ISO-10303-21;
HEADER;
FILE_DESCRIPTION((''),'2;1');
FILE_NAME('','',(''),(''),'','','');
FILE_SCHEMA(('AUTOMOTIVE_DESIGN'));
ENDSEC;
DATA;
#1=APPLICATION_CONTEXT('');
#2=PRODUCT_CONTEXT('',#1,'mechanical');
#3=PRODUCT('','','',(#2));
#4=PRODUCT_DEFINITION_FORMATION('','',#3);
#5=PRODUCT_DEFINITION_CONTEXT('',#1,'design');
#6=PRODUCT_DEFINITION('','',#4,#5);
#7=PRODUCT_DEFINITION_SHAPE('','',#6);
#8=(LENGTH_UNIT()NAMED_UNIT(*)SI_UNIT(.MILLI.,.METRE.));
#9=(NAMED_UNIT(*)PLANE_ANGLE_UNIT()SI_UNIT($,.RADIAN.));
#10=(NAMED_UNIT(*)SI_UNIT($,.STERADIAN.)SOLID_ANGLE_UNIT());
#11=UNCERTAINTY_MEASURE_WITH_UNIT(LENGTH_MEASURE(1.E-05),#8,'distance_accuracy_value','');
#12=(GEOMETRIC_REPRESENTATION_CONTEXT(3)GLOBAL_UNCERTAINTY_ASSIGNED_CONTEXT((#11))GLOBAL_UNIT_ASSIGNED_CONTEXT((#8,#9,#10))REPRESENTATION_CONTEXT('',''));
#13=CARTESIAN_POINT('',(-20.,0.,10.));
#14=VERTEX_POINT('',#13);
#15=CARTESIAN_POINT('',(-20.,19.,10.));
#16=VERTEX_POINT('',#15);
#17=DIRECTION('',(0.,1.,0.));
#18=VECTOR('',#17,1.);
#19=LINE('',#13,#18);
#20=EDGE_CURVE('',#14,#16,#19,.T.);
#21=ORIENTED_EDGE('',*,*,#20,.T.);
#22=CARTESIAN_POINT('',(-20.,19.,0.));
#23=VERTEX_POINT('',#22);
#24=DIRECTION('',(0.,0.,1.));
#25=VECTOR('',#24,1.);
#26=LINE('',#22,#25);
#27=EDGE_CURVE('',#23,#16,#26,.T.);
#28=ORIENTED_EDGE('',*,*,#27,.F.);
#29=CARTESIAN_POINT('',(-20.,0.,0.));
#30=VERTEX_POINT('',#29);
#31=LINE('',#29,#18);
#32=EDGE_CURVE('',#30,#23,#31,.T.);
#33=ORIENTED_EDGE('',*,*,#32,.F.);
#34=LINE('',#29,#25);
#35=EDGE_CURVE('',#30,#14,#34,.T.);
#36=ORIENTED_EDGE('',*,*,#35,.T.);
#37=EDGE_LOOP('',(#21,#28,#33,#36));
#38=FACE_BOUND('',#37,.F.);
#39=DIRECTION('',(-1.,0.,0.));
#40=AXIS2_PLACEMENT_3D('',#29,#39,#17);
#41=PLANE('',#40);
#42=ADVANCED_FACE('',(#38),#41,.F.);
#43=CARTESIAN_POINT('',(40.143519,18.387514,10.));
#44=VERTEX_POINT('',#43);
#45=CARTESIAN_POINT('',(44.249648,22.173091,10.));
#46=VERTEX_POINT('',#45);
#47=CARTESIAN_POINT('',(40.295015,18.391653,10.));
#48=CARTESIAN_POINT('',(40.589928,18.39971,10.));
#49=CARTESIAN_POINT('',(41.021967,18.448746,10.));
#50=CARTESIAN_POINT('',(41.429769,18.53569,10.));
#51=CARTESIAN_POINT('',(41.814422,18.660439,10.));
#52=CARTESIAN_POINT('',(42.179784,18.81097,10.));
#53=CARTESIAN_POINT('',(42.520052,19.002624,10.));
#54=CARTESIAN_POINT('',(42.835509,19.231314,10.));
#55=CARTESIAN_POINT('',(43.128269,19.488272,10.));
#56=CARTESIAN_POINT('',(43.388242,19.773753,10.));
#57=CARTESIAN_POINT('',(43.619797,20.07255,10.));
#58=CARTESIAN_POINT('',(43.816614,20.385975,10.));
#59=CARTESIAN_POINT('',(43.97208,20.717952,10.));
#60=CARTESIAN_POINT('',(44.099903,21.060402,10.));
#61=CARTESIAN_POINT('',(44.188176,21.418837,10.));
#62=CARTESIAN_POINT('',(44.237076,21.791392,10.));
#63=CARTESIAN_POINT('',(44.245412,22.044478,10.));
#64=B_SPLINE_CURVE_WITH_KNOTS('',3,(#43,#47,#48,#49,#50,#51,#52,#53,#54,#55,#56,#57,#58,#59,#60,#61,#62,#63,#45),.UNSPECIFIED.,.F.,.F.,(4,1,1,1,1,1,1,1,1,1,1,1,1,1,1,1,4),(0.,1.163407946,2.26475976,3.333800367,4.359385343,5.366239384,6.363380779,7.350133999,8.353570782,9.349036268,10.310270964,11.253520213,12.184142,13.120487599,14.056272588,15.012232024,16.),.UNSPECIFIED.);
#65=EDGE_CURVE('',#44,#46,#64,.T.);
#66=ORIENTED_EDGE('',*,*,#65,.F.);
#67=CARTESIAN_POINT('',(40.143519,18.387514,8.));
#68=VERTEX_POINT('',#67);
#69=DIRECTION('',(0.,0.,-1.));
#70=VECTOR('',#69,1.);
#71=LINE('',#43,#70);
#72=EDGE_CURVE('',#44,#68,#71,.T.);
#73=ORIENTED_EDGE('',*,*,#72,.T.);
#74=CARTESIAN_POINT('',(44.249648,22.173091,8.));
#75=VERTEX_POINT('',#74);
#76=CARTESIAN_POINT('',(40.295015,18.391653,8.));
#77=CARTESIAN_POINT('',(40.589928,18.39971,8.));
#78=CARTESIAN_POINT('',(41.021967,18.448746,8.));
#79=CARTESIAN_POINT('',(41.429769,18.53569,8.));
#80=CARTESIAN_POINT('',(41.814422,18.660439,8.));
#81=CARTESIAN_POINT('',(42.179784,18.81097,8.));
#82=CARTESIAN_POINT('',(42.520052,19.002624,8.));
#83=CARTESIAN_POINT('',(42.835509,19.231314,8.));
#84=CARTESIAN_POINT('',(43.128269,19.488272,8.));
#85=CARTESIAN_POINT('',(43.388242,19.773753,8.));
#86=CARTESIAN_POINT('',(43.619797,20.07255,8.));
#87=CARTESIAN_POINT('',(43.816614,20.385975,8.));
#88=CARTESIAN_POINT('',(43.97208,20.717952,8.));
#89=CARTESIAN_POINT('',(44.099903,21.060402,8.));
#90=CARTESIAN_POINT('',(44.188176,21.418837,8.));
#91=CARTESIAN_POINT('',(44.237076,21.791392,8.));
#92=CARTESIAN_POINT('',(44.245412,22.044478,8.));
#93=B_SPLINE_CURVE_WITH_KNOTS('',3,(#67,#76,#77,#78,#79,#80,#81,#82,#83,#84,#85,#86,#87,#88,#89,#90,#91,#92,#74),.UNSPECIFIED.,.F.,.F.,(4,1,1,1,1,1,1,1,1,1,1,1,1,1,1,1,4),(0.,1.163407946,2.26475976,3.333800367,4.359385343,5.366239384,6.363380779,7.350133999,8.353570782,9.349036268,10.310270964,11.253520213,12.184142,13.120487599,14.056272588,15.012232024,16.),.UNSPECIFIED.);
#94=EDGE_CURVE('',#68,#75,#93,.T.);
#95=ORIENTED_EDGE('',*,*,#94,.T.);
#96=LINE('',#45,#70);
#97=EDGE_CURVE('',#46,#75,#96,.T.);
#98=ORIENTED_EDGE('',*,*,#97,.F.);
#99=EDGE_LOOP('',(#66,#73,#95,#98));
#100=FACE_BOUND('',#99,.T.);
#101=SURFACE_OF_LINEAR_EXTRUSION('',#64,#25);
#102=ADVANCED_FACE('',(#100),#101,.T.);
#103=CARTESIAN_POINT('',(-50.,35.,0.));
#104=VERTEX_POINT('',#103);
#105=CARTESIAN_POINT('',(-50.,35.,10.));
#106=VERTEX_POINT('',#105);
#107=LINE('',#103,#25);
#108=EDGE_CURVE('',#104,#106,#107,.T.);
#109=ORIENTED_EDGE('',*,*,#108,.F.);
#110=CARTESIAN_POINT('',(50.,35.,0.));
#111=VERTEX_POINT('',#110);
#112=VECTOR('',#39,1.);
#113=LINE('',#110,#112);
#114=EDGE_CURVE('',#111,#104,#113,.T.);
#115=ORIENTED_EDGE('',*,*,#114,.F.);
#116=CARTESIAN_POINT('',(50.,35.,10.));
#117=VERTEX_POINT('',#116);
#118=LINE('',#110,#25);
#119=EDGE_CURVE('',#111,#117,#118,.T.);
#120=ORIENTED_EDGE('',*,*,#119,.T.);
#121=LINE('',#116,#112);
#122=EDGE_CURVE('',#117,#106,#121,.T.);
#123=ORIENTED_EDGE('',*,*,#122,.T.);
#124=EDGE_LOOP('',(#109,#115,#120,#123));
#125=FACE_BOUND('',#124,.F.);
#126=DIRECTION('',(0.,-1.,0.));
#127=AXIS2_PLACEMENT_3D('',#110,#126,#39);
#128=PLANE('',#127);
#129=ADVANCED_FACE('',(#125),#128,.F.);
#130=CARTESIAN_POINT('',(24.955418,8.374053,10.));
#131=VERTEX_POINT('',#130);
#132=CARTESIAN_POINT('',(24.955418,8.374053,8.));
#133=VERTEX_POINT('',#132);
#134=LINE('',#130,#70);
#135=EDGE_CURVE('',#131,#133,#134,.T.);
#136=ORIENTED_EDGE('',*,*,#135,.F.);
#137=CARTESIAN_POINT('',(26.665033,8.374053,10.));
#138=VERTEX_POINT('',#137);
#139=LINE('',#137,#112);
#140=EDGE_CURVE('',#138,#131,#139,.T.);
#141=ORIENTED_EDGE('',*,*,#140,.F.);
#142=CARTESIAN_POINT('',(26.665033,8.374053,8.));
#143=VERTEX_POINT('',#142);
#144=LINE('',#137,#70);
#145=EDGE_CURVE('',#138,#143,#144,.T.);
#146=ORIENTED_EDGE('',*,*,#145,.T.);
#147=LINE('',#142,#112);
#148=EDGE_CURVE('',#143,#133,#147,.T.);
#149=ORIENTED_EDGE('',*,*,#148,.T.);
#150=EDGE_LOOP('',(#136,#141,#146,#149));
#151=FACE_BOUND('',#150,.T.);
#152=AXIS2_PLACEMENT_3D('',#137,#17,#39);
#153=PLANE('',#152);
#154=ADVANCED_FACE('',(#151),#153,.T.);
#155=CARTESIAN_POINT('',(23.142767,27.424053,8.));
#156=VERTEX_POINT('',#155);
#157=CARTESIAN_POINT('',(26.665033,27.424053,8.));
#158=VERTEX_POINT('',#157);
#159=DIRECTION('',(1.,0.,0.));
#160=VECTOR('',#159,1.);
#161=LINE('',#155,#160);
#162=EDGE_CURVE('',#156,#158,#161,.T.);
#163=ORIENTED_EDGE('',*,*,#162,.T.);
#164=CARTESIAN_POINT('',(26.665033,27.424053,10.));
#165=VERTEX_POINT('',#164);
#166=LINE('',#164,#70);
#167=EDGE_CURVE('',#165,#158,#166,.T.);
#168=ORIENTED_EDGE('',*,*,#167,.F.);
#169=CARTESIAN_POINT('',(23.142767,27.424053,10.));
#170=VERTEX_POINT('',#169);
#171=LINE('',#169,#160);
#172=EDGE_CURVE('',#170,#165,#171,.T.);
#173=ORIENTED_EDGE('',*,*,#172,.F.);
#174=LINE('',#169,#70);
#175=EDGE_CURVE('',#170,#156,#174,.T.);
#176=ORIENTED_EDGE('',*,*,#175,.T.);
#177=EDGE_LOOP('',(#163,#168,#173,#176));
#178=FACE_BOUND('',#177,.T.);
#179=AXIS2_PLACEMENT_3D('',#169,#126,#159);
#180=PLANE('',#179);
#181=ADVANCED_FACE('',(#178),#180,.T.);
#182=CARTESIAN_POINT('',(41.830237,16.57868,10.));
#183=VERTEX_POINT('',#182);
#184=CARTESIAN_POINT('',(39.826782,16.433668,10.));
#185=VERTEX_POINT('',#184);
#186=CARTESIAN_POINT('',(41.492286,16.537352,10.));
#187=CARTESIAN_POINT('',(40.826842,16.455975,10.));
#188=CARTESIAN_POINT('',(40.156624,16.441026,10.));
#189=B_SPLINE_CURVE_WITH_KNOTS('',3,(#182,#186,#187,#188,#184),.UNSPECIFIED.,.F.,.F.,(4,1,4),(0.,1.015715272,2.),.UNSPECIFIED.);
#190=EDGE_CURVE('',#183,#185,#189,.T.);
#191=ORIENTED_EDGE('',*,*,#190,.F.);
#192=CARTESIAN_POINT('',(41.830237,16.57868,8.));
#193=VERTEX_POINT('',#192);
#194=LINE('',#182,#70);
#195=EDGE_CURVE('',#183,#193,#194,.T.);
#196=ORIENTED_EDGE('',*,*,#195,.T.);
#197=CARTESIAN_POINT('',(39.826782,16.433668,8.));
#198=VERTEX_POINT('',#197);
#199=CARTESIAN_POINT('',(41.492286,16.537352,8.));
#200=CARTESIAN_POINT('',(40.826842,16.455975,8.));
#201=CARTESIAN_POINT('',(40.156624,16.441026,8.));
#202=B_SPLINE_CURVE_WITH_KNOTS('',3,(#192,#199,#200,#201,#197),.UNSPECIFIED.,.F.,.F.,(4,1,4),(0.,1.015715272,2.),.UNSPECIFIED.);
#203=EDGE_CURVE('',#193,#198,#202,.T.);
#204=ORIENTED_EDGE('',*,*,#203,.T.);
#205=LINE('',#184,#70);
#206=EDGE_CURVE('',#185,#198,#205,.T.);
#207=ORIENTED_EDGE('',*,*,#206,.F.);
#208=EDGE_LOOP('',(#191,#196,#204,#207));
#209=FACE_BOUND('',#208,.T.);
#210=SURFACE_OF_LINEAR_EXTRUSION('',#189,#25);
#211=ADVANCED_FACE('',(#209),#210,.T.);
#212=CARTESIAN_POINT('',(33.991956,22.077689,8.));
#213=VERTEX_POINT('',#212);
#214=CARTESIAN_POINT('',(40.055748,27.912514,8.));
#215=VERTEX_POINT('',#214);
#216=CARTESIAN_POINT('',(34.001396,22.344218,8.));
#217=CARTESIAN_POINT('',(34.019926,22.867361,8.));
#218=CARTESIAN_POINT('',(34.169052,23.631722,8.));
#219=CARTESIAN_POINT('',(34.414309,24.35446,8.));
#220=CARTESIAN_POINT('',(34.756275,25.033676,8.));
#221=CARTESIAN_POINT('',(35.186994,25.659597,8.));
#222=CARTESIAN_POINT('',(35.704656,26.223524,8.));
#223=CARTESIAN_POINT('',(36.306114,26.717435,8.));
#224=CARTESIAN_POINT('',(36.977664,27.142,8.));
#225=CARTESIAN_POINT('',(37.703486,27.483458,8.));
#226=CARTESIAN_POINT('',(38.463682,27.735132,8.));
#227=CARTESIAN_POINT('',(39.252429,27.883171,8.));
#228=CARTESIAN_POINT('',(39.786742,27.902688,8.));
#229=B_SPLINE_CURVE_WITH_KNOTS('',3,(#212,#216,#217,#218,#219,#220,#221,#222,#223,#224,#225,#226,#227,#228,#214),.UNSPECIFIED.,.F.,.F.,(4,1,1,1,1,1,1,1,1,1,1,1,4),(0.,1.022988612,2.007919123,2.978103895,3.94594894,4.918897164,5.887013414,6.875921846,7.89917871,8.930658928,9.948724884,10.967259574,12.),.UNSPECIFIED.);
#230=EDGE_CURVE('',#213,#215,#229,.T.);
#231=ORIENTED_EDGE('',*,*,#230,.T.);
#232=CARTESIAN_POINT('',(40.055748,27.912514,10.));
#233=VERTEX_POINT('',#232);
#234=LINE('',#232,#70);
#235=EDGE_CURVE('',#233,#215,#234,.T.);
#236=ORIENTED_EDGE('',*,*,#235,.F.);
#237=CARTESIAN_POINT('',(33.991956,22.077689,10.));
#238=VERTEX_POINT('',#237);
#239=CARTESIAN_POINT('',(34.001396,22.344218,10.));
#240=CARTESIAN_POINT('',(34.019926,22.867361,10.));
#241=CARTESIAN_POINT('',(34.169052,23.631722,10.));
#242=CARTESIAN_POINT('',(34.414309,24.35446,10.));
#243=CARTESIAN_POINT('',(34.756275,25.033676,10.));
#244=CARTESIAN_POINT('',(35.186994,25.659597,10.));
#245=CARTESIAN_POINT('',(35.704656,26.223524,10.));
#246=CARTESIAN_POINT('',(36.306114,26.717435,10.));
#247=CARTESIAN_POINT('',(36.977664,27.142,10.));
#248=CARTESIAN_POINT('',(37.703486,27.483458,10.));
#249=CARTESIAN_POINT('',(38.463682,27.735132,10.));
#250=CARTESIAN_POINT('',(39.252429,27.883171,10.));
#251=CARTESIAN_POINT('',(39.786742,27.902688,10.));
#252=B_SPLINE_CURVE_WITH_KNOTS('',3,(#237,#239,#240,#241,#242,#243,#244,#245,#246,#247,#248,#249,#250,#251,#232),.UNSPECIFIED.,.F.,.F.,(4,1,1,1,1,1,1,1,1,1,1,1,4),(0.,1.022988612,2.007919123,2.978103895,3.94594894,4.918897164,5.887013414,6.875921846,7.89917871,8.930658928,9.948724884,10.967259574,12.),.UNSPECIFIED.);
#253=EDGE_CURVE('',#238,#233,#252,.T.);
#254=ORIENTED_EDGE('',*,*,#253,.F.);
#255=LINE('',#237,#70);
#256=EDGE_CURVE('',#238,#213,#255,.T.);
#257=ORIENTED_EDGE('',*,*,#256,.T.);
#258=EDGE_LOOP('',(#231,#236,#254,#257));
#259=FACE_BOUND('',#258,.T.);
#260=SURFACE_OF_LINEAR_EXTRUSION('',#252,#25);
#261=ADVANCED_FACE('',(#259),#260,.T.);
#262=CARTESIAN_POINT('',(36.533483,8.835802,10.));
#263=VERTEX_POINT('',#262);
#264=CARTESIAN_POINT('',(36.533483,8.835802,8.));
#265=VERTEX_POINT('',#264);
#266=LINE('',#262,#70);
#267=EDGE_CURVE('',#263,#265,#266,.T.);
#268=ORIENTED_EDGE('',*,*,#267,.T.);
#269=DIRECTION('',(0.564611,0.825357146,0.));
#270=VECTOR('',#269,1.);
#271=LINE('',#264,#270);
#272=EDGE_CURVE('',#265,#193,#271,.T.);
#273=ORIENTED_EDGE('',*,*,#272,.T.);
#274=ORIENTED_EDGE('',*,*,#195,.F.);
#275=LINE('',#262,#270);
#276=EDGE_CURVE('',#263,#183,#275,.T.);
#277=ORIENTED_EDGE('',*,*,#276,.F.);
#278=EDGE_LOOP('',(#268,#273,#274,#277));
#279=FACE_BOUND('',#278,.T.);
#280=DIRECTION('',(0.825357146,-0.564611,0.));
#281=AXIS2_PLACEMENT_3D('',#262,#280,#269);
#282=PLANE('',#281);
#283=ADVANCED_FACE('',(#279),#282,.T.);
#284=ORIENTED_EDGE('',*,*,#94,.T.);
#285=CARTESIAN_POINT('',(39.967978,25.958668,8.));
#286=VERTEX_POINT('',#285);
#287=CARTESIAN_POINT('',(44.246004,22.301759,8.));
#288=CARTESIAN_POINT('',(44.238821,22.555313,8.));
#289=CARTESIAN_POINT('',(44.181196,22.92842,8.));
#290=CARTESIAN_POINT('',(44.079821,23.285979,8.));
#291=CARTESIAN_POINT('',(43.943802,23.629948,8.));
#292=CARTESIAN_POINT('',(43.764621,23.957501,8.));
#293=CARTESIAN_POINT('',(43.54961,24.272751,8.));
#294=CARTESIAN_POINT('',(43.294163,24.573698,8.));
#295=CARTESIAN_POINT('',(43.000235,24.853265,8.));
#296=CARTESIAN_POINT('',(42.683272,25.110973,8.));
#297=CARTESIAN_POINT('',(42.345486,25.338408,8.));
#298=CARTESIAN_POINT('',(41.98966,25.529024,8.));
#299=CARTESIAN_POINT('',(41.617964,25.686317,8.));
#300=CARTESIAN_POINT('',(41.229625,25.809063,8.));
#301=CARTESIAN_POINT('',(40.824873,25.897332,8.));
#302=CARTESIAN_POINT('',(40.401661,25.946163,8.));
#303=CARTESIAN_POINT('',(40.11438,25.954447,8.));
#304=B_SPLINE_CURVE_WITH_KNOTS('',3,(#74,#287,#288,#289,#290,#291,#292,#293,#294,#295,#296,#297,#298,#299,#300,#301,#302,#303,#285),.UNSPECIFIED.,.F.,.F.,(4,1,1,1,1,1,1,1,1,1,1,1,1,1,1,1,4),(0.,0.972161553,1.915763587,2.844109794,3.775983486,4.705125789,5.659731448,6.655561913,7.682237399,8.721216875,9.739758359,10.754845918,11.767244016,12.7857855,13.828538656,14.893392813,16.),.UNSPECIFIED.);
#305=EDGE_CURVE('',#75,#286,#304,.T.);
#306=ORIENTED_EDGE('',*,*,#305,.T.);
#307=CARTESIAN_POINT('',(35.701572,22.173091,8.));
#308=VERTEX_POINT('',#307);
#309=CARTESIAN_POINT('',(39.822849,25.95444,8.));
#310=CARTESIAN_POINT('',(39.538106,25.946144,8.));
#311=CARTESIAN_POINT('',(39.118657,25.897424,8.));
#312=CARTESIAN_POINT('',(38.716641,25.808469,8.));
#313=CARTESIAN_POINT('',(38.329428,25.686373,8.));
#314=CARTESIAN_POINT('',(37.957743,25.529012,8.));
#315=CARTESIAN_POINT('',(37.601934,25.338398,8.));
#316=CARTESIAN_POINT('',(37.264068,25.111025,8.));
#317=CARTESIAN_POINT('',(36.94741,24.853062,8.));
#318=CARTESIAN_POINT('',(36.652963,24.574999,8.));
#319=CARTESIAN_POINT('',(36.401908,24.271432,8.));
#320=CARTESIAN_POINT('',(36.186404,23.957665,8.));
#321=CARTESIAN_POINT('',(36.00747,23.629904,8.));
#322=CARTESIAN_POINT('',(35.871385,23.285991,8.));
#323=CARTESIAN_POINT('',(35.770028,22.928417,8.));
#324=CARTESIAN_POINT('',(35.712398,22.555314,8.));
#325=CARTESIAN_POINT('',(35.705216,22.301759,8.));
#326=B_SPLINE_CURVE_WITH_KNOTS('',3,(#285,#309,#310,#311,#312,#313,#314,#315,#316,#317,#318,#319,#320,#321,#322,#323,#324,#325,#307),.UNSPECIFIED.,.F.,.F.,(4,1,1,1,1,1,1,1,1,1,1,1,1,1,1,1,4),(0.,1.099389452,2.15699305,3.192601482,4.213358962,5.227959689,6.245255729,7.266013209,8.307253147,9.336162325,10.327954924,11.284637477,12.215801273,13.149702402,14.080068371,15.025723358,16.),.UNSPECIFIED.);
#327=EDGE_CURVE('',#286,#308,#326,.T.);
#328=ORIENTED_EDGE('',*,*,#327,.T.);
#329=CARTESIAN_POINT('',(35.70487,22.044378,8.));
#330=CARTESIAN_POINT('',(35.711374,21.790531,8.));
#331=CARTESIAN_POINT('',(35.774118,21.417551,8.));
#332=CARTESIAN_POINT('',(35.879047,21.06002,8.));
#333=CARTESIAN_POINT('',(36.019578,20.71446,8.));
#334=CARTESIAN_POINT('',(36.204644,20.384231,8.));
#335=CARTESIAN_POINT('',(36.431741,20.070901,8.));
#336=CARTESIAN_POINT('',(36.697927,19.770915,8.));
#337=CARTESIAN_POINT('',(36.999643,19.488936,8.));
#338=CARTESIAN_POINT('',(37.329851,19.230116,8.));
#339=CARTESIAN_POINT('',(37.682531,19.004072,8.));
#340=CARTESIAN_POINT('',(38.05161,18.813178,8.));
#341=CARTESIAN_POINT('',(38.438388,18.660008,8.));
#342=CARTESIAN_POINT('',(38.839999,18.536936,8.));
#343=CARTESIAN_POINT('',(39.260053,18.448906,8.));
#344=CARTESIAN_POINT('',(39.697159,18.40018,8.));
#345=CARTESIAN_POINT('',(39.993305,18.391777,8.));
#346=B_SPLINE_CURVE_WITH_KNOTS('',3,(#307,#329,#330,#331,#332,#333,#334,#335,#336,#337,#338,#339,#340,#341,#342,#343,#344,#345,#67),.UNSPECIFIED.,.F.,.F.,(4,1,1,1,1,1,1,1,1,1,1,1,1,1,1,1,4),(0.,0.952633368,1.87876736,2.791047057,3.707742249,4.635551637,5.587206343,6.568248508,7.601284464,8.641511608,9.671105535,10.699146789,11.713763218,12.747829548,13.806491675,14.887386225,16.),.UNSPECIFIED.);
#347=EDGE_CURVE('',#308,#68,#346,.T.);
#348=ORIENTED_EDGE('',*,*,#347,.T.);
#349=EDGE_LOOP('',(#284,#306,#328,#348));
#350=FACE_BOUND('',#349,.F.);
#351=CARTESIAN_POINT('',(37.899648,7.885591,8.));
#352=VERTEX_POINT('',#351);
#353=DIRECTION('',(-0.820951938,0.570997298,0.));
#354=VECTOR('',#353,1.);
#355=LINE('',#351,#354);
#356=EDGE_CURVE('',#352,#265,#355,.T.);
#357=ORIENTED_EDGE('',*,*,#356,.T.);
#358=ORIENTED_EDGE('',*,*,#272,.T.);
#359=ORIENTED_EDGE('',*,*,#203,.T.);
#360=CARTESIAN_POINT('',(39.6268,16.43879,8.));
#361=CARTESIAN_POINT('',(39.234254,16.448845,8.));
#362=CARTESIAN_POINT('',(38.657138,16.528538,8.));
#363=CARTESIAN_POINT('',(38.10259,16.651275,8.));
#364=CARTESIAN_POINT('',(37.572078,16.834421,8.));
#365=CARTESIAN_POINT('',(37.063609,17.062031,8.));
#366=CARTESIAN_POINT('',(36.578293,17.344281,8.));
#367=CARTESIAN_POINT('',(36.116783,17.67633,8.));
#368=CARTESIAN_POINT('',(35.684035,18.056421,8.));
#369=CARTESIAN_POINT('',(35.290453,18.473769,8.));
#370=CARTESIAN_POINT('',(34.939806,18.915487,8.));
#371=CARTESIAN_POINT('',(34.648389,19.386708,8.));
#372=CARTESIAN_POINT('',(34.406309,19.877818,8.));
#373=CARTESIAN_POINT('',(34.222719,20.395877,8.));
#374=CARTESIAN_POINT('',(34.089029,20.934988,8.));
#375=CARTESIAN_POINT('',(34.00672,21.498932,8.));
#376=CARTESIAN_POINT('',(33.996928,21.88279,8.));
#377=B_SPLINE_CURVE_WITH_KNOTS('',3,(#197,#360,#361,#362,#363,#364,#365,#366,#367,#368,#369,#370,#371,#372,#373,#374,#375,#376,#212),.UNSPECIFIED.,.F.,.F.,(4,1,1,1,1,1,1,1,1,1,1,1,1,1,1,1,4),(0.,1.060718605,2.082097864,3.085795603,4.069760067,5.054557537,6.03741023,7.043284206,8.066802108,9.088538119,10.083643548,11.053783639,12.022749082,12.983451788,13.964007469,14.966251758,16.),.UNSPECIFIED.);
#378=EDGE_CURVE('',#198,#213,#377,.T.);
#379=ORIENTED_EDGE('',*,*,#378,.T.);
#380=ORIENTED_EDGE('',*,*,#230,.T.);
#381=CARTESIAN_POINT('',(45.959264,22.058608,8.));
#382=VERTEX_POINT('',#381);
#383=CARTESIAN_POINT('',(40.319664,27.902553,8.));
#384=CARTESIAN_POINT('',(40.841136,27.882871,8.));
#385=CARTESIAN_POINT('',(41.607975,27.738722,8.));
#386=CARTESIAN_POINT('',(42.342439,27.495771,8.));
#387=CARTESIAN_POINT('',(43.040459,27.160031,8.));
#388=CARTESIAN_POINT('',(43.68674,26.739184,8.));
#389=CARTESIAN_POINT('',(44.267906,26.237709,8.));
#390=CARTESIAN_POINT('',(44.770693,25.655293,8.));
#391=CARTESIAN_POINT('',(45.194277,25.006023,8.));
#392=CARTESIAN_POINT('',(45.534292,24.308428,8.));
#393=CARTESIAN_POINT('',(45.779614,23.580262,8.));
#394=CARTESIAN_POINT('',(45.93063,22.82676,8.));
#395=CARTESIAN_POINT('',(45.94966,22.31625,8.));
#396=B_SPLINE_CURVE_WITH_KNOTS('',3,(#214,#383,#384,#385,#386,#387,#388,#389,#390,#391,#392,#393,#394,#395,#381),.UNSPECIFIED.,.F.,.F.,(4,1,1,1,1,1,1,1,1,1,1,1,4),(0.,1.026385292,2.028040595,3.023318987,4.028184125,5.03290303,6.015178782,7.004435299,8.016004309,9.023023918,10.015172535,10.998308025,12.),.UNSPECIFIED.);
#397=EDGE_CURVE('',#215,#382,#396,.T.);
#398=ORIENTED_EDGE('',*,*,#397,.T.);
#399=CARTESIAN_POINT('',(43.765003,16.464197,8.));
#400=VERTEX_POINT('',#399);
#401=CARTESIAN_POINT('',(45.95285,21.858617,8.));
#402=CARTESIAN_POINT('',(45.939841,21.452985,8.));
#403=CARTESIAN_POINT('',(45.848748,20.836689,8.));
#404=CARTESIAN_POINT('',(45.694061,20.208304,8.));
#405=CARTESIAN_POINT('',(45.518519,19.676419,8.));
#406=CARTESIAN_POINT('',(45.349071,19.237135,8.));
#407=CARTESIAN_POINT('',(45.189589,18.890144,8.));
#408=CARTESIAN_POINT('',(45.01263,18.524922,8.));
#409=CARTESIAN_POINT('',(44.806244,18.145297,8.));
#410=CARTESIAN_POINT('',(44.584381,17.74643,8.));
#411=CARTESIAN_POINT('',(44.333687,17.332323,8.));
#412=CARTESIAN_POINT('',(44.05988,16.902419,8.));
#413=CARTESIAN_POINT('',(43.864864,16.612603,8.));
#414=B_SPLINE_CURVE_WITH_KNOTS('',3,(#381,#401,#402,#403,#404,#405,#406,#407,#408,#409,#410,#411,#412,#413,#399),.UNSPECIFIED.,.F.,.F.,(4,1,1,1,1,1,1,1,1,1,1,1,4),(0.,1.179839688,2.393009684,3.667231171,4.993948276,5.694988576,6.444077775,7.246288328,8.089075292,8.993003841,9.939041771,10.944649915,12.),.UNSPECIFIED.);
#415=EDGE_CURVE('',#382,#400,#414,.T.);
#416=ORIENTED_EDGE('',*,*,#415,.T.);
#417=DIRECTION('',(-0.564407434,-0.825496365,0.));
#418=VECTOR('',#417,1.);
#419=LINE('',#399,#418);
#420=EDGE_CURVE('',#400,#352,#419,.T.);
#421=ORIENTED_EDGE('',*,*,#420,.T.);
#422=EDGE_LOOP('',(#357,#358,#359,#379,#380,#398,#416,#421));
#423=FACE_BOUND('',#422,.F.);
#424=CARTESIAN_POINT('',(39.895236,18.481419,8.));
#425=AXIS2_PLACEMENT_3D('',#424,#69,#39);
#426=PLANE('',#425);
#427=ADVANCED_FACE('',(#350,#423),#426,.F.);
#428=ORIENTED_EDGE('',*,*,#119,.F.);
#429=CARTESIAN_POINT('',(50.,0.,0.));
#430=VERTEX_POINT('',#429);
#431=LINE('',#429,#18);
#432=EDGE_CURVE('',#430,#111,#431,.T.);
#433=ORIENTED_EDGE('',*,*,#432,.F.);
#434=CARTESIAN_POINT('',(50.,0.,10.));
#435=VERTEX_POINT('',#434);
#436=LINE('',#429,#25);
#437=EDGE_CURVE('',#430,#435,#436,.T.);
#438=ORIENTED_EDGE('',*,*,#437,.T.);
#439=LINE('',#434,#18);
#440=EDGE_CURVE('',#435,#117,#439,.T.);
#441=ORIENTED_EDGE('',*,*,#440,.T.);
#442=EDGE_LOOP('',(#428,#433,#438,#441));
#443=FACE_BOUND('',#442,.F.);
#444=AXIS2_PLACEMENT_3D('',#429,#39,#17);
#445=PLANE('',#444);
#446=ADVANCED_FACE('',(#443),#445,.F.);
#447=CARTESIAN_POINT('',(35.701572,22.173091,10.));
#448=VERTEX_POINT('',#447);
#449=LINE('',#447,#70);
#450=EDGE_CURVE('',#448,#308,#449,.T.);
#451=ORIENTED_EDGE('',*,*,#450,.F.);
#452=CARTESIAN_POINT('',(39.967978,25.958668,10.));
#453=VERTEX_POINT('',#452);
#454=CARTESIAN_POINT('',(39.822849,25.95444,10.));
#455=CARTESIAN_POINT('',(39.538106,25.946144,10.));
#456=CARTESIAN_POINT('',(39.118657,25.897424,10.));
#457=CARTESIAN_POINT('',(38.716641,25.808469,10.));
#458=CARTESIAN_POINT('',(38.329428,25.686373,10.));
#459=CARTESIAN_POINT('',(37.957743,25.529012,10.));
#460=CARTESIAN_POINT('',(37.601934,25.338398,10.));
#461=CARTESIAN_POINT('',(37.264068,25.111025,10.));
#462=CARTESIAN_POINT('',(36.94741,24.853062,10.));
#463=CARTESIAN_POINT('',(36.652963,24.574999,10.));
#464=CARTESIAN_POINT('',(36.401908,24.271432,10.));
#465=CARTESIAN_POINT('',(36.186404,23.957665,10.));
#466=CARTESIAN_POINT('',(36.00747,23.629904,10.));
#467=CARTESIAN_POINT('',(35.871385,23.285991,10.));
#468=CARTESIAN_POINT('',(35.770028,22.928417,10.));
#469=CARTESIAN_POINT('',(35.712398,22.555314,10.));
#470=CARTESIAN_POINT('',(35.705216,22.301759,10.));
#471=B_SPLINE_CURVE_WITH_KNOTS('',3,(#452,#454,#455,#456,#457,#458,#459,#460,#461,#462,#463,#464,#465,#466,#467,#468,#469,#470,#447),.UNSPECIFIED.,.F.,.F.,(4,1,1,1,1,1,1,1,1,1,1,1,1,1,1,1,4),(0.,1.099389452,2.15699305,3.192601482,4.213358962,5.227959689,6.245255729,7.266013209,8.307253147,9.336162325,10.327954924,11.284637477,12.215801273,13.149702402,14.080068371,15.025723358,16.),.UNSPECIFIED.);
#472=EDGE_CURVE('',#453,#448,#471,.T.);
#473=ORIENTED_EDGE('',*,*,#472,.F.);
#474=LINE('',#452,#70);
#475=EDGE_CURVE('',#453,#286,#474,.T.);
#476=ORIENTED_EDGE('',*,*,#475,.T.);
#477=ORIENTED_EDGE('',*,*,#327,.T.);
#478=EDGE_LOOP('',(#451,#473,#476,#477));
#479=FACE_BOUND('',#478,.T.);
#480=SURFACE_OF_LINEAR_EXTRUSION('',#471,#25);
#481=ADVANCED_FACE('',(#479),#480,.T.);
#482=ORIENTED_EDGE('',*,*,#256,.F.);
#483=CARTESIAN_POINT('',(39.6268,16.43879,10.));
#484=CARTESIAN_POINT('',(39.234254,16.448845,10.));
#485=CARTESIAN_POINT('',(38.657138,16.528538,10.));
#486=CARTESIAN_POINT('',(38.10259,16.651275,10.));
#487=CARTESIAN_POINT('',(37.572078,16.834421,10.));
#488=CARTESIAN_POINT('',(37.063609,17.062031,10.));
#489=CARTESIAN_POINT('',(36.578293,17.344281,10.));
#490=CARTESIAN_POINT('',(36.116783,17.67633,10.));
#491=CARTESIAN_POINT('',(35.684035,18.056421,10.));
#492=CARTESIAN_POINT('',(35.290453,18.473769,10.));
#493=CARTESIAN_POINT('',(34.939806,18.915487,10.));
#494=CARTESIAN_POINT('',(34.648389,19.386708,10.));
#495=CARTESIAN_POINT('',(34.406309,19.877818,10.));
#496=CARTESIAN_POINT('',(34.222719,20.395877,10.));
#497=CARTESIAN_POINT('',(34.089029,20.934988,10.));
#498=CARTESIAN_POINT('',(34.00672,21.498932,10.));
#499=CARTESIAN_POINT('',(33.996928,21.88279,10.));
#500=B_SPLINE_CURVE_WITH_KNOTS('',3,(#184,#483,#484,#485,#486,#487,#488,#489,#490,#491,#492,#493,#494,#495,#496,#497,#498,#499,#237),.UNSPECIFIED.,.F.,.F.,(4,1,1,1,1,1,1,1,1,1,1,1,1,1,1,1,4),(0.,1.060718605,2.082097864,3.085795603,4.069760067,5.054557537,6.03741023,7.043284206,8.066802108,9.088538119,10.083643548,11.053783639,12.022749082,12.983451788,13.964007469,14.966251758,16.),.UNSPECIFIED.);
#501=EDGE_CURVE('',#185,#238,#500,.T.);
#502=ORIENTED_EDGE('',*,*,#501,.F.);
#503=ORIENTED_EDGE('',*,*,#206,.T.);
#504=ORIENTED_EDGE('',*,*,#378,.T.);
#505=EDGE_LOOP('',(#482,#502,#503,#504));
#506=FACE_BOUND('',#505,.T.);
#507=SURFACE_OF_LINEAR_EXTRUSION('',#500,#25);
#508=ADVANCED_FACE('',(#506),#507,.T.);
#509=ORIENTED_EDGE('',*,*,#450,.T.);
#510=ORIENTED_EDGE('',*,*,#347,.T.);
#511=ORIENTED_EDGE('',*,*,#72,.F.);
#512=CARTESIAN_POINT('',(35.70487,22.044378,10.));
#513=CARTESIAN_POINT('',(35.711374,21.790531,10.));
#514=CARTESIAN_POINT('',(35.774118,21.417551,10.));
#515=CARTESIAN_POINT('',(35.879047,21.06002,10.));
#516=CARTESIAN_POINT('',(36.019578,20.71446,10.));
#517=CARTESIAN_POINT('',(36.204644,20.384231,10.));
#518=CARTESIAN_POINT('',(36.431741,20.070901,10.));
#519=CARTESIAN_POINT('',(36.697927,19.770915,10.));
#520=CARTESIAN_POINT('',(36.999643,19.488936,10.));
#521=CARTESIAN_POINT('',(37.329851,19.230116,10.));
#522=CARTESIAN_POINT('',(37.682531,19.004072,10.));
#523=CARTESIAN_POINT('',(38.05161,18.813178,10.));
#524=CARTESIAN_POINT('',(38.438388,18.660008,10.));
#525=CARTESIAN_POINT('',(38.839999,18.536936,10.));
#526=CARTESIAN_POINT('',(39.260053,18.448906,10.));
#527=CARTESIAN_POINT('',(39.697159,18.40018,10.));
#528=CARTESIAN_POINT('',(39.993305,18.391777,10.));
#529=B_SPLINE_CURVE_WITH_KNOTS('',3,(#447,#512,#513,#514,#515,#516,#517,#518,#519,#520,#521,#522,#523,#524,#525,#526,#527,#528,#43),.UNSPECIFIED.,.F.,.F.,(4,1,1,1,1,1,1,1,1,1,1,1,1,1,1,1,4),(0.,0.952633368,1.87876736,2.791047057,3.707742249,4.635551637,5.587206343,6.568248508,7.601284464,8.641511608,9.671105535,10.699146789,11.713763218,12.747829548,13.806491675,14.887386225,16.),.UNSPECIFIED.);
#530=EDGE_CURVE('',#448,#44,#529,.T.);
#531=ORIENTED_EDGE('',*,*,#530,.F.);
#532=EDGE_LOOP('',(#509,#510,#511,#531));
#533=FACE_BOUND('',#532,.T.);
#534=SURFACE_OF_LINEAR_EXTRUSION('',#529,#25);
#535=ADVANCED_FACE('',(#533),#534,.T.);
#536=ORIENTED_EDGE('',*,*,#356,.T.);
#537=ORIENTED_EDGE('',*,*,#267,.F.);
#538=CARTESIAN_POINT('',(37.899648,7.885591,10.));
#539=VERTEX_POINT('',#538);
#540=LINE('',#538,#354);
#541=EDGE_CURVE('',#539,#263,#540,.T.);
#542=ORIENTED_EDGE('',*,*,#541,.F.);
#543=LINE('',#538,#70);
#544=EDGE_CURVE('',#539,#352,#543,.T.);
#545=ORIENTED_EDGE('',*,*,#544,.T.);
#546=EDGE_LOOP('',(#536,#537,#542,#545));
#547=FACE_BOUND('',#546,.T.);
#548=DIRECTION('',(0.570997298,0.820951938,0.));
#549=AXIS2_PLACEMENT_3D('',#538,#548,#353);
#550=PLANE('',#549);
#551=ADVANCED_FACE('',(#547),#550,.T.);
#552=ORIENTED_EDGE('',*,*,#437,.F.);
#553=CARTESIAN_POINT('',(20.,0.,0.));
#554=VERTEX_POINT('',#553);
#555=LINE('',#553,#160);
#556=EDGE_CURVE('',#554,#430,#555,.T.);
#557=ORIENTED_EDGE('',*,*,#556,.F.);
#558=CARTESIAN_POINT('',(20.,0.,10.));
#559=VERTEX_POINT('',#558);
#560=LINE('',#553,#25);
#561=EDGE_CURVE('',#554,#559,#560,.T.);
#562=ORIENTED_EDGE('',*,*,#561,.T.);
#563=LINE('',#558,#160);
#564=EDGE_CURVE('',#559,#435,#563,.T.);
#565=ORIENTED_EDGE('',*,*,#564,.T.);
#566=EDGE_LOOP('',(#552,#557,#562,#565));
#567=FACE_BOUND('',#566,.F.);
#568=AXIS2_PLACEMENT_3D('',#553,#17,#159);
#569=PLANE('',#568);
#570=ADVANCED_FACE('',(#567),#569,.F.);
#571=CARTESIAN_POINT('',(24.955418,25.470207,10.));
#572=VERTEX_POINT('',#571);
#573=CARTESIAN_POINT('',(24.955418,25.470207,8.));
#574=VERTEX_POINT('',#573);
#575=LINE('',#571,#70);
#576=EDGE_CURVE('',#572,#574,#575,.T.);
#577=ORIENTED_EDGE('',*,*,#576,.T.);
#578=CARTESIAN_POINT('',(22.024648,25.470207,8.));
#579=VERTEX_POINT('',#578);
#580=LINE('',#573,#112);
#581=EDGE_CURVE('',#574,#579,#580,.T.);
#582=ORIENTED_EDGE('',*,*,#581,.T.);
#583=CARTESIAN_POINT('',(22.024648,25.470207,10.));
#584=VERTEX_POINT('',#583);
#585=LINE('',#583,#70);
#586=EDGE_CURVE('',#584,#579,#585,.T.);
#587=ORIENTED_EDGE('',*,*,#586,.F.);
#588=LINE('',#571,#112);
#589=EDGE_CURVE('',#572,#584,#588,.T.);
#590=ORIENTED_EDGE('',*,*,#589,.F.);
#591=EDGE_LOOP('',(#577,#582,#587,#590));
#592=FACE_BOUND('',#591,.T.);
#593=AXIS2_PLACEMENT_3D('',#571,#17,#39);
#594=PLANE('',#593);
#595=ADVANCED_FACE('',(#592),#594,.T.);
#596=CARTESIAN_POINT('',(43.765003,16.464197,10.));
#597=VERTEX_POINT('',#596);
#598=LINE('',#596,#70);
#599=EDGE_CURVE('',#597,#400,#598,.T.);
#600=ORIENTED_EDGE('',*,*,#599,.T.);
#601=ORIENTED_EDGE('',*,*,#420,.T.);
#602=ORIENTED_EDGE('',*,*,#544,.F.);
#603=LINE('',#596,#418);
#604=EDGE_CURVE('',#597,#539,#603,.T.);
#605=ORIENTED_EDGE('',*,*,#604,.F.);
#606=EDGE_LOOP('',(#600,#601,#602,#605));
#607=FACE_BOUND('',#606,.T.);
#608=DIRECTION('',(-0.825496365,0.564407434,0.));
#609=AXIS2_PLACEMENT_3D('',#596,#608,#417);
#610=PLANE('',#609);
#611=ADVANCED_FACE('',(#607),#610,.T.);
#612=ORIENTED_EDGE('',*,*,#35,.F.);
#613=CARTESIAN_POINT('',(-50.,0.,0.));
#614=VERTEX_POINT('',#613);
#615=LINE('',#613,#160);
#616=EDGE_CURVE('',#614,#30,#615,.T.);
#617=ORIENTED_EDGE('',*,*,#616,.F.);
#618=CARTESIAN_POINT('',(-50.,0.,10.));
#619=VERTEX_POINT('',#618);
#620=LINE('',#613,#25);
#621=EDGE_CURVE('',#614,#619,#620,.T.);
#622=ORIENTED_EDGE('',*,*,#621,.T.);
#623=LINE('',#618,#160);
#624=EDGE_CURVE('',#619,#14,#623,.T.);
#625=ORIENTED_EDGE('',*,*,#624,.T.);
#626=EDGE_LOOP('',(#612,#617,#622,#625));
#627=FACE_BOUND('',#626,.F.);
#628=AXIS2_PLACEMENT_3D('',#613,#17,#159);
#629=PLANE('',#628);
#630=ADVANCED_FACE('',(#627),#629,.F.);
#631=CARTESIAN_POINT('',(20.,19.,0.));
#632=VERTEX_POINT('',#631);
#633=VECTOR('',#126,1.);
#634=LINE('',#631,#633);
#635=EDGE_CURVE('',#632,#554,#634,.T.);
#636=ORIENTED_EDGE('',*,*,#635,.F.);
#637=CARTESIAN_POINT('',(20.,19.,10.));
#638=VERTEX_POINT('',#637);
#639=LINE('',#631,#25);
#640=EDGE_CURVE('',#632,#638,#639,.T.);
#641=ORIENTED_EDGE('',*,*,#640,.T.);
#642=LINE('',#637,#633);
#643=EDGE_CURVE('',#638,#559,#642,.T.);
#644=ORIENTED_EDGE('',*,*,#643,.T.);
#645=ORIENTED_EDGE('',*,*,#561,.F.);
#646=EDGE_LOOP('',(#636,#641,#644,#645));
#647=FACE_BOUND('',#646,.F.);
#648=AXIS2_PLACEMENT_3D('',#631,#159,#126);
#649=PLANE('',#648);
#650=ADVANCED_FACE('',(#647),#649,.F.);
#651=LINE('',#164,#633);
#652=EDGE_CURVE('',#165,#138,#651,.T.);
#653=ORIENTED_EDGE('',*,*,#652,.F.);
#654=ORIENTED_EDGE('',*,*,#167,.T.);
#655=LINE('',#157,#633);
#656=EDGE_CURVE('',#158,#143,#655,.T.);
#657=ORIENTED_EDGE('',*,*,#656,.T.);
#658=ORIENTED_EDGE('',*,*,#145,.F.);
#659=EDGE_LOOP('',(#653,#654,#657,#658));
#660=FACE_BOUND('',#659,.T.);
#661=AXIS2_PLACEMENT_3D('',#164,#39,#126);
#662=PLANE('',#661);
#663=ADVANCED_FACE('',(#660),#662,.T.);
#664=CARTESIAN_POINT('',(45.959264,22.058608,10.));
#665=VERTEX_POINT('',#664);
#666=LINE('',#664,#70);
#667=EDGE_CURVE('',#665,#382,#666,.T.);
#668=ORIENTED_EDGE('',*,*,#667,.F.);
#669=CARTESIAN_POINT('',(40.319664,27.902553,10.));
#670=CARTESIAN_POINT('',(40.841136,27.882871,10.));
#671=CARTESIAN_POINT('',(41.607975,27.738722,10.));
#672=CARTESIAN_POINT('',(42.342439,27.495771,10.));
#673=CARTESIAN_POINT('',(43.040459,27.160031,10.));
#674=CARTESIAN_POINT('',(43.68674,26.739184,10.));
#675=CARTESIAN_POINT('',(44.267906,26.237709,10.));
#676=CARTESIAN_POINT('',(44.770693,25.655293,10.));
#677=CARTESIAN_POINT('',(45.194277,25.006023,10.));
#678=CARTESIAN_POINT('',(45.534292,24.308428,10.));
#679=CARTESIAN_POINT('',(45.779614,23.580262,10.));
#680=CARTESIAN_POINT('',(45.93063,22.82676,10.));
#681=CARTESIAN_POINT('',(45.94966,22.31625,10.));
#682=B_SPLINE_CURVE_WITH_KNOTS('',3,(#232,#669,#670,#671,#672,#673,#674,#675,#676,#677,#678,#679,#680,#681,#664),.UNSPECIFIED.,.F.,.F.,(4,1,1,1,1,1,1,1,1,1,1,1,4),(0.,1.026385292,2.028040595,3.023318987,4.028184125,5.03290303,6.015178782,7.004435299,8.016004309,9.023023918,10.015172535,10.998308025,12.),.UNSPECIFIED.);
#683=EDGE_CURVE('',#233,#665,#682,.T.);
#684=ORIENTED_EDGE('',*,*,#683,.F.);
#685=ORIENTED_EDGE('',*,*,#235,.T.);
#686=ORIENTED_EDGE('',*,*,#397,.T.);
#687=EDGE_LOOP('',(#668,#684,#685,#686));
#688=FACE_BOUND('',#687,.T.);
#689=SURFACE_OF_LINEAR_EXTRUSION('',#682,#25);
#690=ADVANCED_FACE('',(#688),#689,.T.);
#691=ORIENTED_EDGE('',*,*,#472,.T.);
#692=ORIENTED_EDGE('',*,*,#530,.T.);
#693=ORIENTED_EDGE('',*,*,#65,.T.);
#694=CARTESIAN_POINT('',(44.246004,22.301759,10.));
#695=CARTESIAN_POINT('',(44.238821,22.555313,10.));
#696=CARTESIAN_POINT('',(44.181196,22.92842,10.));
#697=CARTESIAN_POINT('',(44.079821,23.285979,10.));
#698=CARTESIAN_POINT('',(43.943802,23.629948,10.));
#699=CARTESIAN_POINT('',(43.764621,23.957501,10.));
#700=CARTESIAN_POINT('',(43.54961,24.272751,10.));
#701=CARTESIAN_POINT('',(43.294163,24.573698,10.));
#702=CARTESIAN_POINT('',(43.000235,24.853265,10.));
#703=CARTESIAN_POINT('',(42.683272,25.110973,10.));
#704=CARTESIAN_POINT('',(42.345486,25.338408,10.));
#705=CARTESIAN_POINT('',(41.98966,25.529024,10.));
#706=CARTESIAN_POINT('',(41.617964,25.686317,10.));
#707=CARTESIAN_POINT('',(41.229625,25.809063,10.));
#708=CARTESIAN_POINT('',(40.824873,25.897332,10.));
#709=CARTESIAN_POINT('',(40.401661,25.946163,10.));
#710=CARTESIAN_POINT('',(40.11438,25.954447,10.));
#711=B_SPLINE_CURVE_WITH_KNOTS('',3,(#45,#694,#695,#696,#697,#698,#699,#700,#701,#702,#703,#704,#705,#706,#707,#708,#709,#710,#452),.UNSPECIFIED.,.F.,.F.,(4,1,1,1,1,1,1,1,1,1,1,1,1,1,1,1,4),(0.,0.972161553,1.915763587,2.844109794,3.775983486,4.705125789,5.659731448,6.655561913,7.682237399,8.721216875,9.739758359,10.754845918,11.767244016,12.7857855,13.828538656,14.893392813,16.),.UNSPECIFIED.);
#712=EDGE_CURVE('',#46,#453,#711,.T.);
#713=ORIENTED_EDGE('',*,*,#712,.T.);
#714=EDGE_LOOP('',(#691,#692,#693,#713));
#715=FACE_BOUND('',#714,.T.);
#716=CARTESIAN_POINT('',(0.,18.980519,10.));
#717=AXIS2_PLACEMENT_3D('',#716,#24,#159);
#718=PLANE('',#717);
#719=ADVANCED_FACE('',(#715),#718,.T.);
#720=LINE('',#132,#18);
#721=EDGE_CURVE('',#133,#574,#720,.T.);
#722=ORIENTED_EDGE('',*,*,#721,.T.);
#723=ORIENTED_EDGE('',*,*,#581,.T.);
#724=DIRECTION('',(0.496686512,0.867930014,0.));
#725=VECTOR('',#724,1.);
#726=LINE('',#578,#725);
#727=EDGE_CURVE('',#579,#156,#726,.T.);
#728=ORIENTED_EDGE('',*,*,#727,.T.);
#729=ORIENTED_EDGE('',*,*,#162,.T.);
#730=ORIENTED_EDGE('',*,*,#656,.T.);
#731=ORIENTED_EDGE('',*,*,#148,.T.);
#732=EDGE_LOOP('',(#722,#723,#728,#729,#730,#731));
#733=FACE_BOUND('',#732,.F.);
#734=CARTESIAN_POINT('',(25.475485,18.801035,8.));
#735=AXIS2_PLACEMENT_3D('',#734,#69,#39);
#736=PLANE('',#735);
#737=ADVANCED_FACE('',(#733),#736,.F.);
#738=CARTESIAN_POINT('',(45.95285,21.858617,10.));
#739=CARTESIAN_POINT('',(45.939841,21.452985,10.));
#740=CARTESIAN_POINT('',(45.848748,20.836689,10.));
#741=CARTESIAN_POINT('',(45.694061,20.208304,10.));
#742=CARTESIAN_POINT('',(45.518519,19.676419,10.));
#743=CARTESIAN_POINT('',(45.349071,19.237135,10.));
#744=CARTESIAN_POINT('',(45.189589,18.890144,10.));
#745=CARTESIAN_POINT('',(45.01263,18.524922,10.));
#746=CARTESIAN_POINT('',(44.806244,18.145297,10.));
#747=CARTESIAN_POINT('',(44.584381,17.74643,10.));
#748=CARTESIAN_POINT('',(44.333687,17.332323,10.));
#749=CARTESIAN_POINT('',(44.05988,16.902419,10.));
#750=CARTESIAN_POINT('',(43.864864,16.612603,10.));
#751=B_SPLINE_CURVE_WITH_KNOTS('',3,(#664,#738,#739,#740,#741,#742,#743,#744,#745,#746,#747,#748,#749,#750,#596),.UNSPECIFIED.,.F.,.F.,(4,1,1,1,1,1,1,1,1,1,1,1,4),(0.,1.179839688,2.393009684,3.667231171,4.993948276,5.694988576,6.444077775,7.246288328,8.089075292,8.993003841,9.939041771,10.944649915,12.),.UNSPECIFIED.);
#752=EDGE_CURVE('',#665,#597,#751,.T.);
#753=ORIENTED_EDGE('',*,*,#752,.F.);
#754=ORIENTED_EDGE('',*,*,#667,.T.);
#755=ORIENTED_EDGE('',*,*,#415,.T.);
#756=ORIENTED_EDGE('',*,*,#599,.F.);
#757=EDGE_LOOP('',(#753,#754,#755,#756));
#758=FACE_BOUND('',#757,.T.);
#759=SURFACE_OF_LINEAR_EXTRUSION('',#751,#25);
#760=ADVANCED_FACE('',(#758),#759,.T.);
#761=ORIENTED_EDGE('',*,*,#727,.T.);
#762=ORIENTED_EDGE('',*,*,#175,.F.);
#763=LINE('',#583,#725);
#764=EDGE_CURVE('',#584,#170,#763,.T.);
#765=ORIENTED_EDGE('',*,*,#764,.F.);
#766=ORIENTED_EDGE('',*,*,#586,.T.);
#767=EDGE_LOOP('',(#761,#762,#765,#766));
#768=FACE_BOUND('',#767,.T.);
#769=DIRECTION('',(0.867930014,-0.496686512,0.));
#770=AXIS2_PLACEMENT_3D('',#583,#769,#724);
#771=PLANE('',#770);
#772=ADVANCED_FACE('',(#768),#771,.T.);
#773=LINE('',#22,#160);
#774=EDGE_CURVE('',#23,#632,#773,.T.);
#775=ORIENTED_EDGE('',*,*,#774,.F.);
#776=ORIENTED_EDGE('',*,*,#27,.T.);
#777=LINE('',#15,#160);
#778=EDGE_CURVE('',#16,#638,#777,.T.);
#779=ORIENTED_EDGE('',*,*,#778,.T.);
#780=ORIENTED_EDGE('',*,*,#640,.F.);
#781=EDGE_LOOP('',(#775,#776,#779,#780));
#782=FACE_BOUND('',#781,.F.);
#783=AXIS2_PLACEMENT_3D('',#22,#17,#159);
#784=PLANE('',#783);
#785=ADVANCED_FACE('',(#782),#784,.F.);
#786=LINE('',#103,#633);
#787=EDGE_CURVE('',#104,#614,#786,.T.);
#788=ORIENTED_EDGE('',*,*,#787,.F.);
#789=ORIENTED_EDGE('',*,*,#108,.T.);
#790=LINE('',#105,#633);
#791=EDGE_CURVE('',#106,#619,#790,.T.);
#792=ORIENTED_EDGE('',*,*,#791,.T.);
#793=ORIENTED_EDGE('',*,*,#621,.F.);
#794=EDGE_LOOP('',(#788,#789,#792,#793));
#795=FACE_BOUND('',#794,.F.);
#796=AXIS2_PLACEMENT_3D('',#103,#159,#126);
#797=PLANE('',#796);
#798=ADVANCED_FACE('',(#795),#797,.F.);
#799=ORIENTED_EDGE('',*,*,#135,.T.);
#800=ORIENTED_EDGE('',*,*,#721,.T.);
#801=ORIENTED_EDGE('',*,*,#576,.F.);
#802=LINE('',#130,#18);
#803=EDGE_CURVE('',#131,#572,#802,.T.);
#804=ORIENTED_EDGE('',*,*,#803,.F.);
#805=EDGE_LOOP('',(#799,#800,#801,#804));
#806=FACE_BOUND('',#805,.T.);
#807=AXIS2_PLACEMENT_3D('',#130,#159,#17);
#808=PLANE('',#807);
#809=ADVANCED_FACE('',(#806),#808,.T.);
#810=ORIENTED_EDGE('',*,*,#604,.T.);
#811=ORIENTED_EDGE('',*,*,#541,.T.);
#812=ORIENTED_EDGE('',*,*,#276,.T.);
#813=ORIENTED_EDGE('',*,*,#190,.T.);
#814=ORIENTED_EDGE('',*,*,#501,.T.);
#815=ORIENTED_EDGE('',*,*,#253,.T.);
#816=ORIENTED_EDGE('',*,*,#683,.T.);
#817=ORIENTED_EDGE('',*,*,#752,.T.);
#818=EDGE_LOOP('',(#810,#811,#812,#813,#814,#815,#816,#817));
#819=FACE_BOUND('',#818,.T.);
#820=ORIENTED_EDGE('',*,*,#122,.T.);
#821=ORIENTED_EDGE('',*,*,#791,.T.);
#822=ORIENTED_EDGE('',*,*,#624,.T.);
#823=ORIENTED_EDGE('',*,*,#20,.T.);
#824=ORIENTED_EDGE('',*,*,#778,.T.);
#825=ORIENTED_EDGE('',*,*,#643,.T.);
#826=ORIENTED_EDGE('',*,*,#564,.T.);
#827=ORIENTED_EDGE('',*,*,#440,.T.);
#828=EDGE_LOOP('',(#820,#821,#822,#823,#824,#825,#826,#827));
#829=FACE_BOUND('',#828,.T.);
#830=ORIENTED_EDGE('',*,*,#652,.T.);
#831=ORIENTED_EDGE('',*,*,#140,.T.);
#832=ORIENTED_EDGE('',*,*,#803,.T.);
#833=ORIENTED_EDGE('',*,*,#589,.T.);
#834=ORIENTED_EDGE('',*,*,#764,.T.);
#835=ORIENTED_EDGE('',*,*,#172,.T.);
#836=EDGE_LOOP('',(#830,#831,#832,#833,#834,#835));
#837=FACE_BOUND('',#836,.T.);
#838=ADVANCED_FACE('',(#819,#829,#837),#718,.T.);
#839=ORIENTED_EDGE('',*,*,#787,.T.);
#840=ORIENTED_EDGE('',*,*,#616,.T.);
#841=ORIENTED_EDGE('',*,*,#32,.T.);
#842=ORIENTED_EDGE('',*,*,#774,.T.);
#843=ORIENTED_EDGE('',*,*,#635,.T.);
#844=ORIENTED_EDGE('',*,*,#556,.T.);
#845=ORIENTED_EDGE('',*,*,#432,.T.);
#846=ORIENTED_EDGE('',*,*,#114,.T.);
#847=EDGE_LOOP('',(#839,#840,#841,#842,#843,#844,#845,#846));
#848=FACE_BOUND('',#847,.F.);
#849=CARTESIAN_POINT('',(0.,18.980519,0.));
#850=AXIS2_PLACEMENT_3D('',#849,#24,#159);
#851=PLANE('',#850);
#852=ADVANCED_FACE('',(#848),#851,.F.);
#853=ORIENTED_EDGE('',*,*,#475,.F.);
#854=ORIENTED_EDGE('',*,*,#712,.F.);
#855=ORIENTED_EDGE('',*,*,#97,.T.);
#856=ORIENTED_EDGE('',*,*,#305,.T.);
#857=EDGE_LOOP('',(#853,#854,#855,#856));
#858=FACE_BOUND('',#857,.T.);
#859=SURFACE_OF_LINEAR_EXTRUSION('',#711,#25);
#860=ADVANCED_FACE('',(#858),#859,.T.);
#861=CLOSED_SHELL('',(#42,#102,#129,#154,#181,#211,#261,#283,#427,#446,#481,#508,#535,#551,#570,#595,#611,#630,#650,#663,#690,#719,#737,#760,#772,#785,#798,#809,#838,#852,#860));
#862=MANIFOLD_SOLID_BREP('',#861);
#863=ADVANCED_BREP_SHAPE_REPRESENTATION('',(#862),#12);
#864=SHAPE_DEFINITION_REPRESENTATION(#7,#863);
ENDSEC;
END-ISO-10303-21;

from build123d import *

# Parameters (mm, degrees)
BOSS_EXTRUDE1_DEPTH = 10
CUT_EXTRUDE1_DEPTH  = 2


with BuildPart() as part:
    # Sketch2 → Boss-Extrude1 (new body)
    with BuildSketch(Plane.XY):
        Polygon((50, 35), (-50, 35), (-50, 0), (-20, 0), (-20, 19), (20, 19), (20, 0), (50, 0), align=None)
    extrude(amount=BOSS_EXTRUDE1_DEPTH)

    # Sketch3 → Cut-Extrude1 (cut)
    # profile 1 of 2: a face of its own
    with BuildSketch(Plane.XY.offset(10)):
        Polygon((23.142767448, 27.42405293), (26.665033073, 27.42405293), (26.665033073, 8.37405293), (24.955417689, 8.37405293), (24.955417689, 25.470206776), (22.024648458, 25.470206776), align=None)
    # profile 2 of 2: a face of its own
    with BuildSketch(Plane.XY.offset(10)):
        with BuildLine():
            Line((37.899648458, 7.885591391), (36.533482593, 8.835801728))
            Line((36.533482593, 8.835801728), (41.8302374, 16.578680334))
            add(Edge.make_bspline(
                [(41.8302374, 16.578680334), (41.492286397, 16.537352375), (40.826842028, 16.455975319), (40.156624373, 16.44102567), (39.826781872, 16.433668314)],
                knots=[0, 0, 0, 0, 1.015715272, 2, 2, 2, 2], degree=3))
            add(Edge.make_bspline(
                [(39.826781872, 16.433668314), (39.626800154, 16.438790459), (39.234253531, 16.448844781), (38.657138394, 16.528538052), (38.102589842, 16.651275176), (37.572078062, 16.834420543), (37.063609043, 17.062031081), (36.578292803, 17.344281398), (36.116782656, 17.676329928), (35.684035182, 18.056420925), (35.290452718, 18.47376861), (34.939805911, 18.915487181), (34.648389179, 19.386707821), (34.406309478, 19.877818016), (34.222719438, 20.395876512), (34.089029055, 20.934988247), (34.00672024, 21.498931612), (33.99692802, 21.882789824), (33.99195615, 22.077688747)],
                knots=[0, 0, 0, 0, 1.060718605, 2.082097864, 3.085795603, 4.069760067, 5.054557537, 6.03741023, 7.043284206, 8.066802108, 9.088538119, 10.083643548, 11.053783639, 12.022749082, 12.983451788, 13.964007469, 14.966251758, 16, 16, 16, 16], degree=3))
            add(Edge.make_bspline(
                [(33.99195615, 22.077688747), (34.001396431, 22.344218128), (34.019925787, 22.867361236), (34.169052003, 23.631722179), (34.414308992, 24.354460366), (34.756274871, 25.033675564), (35.186993855, 25.659597274), (35.704656324, 26.223524132), (36.306113615, 26.717435408), (36.977664319, 27.142000458), (37.703485761, 27.483458086), (38.463682314, 27.735131993), (39.252429168, 27.883170892), (39.786741772, 27.902688222), (40.055748218, 27.912514468)],
                knots=[0, 0, 0, 0, 1.022988612, 2.007919123, 2.978103895, 3.94594894, 4.918897164, 5.887013414, 6.875921846, 7.89917871, 8.930658928, 9.948724884, 10.967259574, 12, 12, 12, 12], degree=3))
            add(Edge.make_bspline(
                [(40.055748218, 27.912514468), (40.319663759, 27.902553152), (40.841135992, 27.882870531), (41.607974728, 27.73872207), (42.342439406, 27.495771037), (43.040458548, 27.160030769), (43.686740206, 26.739184114), (44.267905692, 26.237709063), (44.770692555, 25.655293265), (45.19427682, 25.006023055), (45.534292325, 24.308428486), (45.779614323, 23.580261708), (45.930629872, 22.826759525), (45.949659881, 22.316249601), (45.959263843, 22.058608218)],
                knots=[0, 0, 0, 0, 1.026385292, 2.028040595, 3.023318987, 4.028184125, 5.03290303, 6.015178782, 7.004435299, 8.016004309, 9.023023918, 10.015172535, 10.998308025, 12, 12, 12, 12], degree=3))
            add(Edge.make_bspline(
                [(45.959263843, 22.058608218), (45.952849931, 21.858617143), (45.939840916, 21.452985271), (45.848747588, 20.836688691), (45.69406058, 20.208304142), (45.518519191, 19.676419457), (45.34907125, 19.237134894), (45.189589376, 18.890144152), (45.012630369, 18.524921562), (44.806243945, 18.145296765), (44.584380587, 17.746430396), (44.333686525, 17.332323043), (44.059880484, 16.902419009), (43.864864438, 16.612602716), (43.765003025, 16.464197161)],
                knots=[0, 0, 0, 0, 1.179839688, 2.393009684, 3.667231171, 4.993948276, 5.694988576, 6.444077775, 7.246288328, 8.089075292, 8.993003841, 9.939041771, 10.944649915, 12, 12, 12, 12], degree=3))
            Line((43.765003025, 16.464197161), (37.899648458, 7.885591391))
        make_face()
        with BuildLine():
            add(Edge.make_bspline(
                [(40.14351865, 18.387514468), (40.295015213, 18.391653129), (40.589927518, 18.399709693), (41.021966817, 18.44874571), (41.429768552, 18.535689834), (41.814422066, 18.660438552), (42.179784204, 18.81096985), (42.520051647, 19.00262366), (42.835509171, 19.231314202), (43.128269174, 19.488271573), (43.388241801, 19.773752606), (43.61979744, 20.072549715), (43.816614242, 20.385974521), (43.972080079, 20.717952134), (44.099903268, 21.060401512), (44.188175591, 21.418837359), (44.237076034, 21.791392226), (44.245412177, 22.044477779), (44.249648458, 22.173091391)],
                knots=[0, 0, 0, 0, 1.163407946, 2.26475976, 3.333800367, 4.359385343, 5.366239384, 6.363380779, 7.350133999, 8.353570782, 9.349036268, 10.310270964, 11.253520213, 12.184142, 13.120487599, 14.056272588, 15.012232024, 16, 16, 16, 16], degree=3))
            add(Edge.make_bspline(
                [(44.249648458, 22.173091391), (44.246003544, 22.301758712), (44.238820795, 22.55531345), (44.181195635, 22.928419891), (44.079821206, 23.285978925), (43.943801568, 23.629948065), (43.764621417, 23.957501232), (43.549609587, 24.27275082), (43.294162968, 24.573697973), (43.000234715, 24.853264798), (42.683272362, 25.110972649), (42.345485925, 25.338408291), (41.989659596, 25.52902366), (41.617964216, 25.686316625), (41.229625345, 25.809062718), (40.824872781, 25.897331517), (40.401661216, 25.946163495), (40.114380216, 25.95444695), (39.967977785, 25.958668314)],
                knots=[0, 0, 0, 0, 0.972161553, 1.915763587, 2.844109794, 3.775983486, 4.705125789, 5.659731448, 6.655561913, 7.682237399, 8.721216875, 9.739758359, 10.754845918, 11.767244016, 12.7857855, 13.828538656, 14.893392813, 16, 16, 16, 16], degree=3))
            add(Edge.make_bspline(
                [(39.967977785, 25.958668314), (39.822848607, 25.954440131), (39.538106356, 25.946144469), (39.118657146, 25.897424338), (38.716641361, 25.808469088), (38.329427685, 25.686373481), (37.957743349, 25.529011926), (37.601933802, 25.338398303), (37.264068354, 25.111025002), (36.947409888, 24.853062027), (36.652962627, 24.574999267), (36.401907962, 24.271432461), (36.186404063, 23.957665221), (36.007470119, 23.629904483), (35.87138499, 23.285990557), (35.770028095, 22.928416741), (35.712398224, 22.555314271), (35.705216121, 22.301758988), (35.701571535, 22.173091391)],
                knots=[0, 0, 0, 0, 1.099389452, 2.15699305, 3.192601482, 4.213358962, 5.227959689, 6.245255729, 7.266013209, 8.307253147, 9.336162325, 10.327954924, 11.284637477, 12.215801273, 13.149702402, 14.080068371, 15.025723358, 16, 16, 16, 16], degree=3))
            add(Edge.make_bspline(
                [(35.701571535, 22.173091391), (35.704869504, 22.044377624), (35.711373703, 21.790530517), (35.774117816, 21.41755115), (35.879046739, 21.060019694), (36.019577993, 20.714459731), (36.204643791, 20.384231475), (36.431740735, 20.070900548), (36.697926636, 19.770915026), (36.99964319, 19.488935773), (37.329851323, 19.230116075), (37.682530756, 19.004072138), (38.051610011, 18.813177834), (38.438388315, 18.660008301), (38.839999326, 18.536936247), (39.260052541, 18.44890595), (39.697158805, 18.400180041), (39.993304563, 18.391776831), (40.14351865, 18.387514468)],
                knots=[0, 0, 0, 0, 0.952633368, 1.87876736, 2.791047057, 3.707742249, 4.635551637, 5.587206343, 6.568248508, 7.601284464, 8.641511608, 9.671105535, 10.699146789, 11.713763218, 12.747829548, 13.806491675, 14.887386225, 16, 16, 16, 16], degree=3))
        make_face(mode=Mode.SUBTRACT)
    extrude(amount=-CUT_EXTRUDE1_DEPTH, mode=Mode.SUBTRACT)


solid = part.part
